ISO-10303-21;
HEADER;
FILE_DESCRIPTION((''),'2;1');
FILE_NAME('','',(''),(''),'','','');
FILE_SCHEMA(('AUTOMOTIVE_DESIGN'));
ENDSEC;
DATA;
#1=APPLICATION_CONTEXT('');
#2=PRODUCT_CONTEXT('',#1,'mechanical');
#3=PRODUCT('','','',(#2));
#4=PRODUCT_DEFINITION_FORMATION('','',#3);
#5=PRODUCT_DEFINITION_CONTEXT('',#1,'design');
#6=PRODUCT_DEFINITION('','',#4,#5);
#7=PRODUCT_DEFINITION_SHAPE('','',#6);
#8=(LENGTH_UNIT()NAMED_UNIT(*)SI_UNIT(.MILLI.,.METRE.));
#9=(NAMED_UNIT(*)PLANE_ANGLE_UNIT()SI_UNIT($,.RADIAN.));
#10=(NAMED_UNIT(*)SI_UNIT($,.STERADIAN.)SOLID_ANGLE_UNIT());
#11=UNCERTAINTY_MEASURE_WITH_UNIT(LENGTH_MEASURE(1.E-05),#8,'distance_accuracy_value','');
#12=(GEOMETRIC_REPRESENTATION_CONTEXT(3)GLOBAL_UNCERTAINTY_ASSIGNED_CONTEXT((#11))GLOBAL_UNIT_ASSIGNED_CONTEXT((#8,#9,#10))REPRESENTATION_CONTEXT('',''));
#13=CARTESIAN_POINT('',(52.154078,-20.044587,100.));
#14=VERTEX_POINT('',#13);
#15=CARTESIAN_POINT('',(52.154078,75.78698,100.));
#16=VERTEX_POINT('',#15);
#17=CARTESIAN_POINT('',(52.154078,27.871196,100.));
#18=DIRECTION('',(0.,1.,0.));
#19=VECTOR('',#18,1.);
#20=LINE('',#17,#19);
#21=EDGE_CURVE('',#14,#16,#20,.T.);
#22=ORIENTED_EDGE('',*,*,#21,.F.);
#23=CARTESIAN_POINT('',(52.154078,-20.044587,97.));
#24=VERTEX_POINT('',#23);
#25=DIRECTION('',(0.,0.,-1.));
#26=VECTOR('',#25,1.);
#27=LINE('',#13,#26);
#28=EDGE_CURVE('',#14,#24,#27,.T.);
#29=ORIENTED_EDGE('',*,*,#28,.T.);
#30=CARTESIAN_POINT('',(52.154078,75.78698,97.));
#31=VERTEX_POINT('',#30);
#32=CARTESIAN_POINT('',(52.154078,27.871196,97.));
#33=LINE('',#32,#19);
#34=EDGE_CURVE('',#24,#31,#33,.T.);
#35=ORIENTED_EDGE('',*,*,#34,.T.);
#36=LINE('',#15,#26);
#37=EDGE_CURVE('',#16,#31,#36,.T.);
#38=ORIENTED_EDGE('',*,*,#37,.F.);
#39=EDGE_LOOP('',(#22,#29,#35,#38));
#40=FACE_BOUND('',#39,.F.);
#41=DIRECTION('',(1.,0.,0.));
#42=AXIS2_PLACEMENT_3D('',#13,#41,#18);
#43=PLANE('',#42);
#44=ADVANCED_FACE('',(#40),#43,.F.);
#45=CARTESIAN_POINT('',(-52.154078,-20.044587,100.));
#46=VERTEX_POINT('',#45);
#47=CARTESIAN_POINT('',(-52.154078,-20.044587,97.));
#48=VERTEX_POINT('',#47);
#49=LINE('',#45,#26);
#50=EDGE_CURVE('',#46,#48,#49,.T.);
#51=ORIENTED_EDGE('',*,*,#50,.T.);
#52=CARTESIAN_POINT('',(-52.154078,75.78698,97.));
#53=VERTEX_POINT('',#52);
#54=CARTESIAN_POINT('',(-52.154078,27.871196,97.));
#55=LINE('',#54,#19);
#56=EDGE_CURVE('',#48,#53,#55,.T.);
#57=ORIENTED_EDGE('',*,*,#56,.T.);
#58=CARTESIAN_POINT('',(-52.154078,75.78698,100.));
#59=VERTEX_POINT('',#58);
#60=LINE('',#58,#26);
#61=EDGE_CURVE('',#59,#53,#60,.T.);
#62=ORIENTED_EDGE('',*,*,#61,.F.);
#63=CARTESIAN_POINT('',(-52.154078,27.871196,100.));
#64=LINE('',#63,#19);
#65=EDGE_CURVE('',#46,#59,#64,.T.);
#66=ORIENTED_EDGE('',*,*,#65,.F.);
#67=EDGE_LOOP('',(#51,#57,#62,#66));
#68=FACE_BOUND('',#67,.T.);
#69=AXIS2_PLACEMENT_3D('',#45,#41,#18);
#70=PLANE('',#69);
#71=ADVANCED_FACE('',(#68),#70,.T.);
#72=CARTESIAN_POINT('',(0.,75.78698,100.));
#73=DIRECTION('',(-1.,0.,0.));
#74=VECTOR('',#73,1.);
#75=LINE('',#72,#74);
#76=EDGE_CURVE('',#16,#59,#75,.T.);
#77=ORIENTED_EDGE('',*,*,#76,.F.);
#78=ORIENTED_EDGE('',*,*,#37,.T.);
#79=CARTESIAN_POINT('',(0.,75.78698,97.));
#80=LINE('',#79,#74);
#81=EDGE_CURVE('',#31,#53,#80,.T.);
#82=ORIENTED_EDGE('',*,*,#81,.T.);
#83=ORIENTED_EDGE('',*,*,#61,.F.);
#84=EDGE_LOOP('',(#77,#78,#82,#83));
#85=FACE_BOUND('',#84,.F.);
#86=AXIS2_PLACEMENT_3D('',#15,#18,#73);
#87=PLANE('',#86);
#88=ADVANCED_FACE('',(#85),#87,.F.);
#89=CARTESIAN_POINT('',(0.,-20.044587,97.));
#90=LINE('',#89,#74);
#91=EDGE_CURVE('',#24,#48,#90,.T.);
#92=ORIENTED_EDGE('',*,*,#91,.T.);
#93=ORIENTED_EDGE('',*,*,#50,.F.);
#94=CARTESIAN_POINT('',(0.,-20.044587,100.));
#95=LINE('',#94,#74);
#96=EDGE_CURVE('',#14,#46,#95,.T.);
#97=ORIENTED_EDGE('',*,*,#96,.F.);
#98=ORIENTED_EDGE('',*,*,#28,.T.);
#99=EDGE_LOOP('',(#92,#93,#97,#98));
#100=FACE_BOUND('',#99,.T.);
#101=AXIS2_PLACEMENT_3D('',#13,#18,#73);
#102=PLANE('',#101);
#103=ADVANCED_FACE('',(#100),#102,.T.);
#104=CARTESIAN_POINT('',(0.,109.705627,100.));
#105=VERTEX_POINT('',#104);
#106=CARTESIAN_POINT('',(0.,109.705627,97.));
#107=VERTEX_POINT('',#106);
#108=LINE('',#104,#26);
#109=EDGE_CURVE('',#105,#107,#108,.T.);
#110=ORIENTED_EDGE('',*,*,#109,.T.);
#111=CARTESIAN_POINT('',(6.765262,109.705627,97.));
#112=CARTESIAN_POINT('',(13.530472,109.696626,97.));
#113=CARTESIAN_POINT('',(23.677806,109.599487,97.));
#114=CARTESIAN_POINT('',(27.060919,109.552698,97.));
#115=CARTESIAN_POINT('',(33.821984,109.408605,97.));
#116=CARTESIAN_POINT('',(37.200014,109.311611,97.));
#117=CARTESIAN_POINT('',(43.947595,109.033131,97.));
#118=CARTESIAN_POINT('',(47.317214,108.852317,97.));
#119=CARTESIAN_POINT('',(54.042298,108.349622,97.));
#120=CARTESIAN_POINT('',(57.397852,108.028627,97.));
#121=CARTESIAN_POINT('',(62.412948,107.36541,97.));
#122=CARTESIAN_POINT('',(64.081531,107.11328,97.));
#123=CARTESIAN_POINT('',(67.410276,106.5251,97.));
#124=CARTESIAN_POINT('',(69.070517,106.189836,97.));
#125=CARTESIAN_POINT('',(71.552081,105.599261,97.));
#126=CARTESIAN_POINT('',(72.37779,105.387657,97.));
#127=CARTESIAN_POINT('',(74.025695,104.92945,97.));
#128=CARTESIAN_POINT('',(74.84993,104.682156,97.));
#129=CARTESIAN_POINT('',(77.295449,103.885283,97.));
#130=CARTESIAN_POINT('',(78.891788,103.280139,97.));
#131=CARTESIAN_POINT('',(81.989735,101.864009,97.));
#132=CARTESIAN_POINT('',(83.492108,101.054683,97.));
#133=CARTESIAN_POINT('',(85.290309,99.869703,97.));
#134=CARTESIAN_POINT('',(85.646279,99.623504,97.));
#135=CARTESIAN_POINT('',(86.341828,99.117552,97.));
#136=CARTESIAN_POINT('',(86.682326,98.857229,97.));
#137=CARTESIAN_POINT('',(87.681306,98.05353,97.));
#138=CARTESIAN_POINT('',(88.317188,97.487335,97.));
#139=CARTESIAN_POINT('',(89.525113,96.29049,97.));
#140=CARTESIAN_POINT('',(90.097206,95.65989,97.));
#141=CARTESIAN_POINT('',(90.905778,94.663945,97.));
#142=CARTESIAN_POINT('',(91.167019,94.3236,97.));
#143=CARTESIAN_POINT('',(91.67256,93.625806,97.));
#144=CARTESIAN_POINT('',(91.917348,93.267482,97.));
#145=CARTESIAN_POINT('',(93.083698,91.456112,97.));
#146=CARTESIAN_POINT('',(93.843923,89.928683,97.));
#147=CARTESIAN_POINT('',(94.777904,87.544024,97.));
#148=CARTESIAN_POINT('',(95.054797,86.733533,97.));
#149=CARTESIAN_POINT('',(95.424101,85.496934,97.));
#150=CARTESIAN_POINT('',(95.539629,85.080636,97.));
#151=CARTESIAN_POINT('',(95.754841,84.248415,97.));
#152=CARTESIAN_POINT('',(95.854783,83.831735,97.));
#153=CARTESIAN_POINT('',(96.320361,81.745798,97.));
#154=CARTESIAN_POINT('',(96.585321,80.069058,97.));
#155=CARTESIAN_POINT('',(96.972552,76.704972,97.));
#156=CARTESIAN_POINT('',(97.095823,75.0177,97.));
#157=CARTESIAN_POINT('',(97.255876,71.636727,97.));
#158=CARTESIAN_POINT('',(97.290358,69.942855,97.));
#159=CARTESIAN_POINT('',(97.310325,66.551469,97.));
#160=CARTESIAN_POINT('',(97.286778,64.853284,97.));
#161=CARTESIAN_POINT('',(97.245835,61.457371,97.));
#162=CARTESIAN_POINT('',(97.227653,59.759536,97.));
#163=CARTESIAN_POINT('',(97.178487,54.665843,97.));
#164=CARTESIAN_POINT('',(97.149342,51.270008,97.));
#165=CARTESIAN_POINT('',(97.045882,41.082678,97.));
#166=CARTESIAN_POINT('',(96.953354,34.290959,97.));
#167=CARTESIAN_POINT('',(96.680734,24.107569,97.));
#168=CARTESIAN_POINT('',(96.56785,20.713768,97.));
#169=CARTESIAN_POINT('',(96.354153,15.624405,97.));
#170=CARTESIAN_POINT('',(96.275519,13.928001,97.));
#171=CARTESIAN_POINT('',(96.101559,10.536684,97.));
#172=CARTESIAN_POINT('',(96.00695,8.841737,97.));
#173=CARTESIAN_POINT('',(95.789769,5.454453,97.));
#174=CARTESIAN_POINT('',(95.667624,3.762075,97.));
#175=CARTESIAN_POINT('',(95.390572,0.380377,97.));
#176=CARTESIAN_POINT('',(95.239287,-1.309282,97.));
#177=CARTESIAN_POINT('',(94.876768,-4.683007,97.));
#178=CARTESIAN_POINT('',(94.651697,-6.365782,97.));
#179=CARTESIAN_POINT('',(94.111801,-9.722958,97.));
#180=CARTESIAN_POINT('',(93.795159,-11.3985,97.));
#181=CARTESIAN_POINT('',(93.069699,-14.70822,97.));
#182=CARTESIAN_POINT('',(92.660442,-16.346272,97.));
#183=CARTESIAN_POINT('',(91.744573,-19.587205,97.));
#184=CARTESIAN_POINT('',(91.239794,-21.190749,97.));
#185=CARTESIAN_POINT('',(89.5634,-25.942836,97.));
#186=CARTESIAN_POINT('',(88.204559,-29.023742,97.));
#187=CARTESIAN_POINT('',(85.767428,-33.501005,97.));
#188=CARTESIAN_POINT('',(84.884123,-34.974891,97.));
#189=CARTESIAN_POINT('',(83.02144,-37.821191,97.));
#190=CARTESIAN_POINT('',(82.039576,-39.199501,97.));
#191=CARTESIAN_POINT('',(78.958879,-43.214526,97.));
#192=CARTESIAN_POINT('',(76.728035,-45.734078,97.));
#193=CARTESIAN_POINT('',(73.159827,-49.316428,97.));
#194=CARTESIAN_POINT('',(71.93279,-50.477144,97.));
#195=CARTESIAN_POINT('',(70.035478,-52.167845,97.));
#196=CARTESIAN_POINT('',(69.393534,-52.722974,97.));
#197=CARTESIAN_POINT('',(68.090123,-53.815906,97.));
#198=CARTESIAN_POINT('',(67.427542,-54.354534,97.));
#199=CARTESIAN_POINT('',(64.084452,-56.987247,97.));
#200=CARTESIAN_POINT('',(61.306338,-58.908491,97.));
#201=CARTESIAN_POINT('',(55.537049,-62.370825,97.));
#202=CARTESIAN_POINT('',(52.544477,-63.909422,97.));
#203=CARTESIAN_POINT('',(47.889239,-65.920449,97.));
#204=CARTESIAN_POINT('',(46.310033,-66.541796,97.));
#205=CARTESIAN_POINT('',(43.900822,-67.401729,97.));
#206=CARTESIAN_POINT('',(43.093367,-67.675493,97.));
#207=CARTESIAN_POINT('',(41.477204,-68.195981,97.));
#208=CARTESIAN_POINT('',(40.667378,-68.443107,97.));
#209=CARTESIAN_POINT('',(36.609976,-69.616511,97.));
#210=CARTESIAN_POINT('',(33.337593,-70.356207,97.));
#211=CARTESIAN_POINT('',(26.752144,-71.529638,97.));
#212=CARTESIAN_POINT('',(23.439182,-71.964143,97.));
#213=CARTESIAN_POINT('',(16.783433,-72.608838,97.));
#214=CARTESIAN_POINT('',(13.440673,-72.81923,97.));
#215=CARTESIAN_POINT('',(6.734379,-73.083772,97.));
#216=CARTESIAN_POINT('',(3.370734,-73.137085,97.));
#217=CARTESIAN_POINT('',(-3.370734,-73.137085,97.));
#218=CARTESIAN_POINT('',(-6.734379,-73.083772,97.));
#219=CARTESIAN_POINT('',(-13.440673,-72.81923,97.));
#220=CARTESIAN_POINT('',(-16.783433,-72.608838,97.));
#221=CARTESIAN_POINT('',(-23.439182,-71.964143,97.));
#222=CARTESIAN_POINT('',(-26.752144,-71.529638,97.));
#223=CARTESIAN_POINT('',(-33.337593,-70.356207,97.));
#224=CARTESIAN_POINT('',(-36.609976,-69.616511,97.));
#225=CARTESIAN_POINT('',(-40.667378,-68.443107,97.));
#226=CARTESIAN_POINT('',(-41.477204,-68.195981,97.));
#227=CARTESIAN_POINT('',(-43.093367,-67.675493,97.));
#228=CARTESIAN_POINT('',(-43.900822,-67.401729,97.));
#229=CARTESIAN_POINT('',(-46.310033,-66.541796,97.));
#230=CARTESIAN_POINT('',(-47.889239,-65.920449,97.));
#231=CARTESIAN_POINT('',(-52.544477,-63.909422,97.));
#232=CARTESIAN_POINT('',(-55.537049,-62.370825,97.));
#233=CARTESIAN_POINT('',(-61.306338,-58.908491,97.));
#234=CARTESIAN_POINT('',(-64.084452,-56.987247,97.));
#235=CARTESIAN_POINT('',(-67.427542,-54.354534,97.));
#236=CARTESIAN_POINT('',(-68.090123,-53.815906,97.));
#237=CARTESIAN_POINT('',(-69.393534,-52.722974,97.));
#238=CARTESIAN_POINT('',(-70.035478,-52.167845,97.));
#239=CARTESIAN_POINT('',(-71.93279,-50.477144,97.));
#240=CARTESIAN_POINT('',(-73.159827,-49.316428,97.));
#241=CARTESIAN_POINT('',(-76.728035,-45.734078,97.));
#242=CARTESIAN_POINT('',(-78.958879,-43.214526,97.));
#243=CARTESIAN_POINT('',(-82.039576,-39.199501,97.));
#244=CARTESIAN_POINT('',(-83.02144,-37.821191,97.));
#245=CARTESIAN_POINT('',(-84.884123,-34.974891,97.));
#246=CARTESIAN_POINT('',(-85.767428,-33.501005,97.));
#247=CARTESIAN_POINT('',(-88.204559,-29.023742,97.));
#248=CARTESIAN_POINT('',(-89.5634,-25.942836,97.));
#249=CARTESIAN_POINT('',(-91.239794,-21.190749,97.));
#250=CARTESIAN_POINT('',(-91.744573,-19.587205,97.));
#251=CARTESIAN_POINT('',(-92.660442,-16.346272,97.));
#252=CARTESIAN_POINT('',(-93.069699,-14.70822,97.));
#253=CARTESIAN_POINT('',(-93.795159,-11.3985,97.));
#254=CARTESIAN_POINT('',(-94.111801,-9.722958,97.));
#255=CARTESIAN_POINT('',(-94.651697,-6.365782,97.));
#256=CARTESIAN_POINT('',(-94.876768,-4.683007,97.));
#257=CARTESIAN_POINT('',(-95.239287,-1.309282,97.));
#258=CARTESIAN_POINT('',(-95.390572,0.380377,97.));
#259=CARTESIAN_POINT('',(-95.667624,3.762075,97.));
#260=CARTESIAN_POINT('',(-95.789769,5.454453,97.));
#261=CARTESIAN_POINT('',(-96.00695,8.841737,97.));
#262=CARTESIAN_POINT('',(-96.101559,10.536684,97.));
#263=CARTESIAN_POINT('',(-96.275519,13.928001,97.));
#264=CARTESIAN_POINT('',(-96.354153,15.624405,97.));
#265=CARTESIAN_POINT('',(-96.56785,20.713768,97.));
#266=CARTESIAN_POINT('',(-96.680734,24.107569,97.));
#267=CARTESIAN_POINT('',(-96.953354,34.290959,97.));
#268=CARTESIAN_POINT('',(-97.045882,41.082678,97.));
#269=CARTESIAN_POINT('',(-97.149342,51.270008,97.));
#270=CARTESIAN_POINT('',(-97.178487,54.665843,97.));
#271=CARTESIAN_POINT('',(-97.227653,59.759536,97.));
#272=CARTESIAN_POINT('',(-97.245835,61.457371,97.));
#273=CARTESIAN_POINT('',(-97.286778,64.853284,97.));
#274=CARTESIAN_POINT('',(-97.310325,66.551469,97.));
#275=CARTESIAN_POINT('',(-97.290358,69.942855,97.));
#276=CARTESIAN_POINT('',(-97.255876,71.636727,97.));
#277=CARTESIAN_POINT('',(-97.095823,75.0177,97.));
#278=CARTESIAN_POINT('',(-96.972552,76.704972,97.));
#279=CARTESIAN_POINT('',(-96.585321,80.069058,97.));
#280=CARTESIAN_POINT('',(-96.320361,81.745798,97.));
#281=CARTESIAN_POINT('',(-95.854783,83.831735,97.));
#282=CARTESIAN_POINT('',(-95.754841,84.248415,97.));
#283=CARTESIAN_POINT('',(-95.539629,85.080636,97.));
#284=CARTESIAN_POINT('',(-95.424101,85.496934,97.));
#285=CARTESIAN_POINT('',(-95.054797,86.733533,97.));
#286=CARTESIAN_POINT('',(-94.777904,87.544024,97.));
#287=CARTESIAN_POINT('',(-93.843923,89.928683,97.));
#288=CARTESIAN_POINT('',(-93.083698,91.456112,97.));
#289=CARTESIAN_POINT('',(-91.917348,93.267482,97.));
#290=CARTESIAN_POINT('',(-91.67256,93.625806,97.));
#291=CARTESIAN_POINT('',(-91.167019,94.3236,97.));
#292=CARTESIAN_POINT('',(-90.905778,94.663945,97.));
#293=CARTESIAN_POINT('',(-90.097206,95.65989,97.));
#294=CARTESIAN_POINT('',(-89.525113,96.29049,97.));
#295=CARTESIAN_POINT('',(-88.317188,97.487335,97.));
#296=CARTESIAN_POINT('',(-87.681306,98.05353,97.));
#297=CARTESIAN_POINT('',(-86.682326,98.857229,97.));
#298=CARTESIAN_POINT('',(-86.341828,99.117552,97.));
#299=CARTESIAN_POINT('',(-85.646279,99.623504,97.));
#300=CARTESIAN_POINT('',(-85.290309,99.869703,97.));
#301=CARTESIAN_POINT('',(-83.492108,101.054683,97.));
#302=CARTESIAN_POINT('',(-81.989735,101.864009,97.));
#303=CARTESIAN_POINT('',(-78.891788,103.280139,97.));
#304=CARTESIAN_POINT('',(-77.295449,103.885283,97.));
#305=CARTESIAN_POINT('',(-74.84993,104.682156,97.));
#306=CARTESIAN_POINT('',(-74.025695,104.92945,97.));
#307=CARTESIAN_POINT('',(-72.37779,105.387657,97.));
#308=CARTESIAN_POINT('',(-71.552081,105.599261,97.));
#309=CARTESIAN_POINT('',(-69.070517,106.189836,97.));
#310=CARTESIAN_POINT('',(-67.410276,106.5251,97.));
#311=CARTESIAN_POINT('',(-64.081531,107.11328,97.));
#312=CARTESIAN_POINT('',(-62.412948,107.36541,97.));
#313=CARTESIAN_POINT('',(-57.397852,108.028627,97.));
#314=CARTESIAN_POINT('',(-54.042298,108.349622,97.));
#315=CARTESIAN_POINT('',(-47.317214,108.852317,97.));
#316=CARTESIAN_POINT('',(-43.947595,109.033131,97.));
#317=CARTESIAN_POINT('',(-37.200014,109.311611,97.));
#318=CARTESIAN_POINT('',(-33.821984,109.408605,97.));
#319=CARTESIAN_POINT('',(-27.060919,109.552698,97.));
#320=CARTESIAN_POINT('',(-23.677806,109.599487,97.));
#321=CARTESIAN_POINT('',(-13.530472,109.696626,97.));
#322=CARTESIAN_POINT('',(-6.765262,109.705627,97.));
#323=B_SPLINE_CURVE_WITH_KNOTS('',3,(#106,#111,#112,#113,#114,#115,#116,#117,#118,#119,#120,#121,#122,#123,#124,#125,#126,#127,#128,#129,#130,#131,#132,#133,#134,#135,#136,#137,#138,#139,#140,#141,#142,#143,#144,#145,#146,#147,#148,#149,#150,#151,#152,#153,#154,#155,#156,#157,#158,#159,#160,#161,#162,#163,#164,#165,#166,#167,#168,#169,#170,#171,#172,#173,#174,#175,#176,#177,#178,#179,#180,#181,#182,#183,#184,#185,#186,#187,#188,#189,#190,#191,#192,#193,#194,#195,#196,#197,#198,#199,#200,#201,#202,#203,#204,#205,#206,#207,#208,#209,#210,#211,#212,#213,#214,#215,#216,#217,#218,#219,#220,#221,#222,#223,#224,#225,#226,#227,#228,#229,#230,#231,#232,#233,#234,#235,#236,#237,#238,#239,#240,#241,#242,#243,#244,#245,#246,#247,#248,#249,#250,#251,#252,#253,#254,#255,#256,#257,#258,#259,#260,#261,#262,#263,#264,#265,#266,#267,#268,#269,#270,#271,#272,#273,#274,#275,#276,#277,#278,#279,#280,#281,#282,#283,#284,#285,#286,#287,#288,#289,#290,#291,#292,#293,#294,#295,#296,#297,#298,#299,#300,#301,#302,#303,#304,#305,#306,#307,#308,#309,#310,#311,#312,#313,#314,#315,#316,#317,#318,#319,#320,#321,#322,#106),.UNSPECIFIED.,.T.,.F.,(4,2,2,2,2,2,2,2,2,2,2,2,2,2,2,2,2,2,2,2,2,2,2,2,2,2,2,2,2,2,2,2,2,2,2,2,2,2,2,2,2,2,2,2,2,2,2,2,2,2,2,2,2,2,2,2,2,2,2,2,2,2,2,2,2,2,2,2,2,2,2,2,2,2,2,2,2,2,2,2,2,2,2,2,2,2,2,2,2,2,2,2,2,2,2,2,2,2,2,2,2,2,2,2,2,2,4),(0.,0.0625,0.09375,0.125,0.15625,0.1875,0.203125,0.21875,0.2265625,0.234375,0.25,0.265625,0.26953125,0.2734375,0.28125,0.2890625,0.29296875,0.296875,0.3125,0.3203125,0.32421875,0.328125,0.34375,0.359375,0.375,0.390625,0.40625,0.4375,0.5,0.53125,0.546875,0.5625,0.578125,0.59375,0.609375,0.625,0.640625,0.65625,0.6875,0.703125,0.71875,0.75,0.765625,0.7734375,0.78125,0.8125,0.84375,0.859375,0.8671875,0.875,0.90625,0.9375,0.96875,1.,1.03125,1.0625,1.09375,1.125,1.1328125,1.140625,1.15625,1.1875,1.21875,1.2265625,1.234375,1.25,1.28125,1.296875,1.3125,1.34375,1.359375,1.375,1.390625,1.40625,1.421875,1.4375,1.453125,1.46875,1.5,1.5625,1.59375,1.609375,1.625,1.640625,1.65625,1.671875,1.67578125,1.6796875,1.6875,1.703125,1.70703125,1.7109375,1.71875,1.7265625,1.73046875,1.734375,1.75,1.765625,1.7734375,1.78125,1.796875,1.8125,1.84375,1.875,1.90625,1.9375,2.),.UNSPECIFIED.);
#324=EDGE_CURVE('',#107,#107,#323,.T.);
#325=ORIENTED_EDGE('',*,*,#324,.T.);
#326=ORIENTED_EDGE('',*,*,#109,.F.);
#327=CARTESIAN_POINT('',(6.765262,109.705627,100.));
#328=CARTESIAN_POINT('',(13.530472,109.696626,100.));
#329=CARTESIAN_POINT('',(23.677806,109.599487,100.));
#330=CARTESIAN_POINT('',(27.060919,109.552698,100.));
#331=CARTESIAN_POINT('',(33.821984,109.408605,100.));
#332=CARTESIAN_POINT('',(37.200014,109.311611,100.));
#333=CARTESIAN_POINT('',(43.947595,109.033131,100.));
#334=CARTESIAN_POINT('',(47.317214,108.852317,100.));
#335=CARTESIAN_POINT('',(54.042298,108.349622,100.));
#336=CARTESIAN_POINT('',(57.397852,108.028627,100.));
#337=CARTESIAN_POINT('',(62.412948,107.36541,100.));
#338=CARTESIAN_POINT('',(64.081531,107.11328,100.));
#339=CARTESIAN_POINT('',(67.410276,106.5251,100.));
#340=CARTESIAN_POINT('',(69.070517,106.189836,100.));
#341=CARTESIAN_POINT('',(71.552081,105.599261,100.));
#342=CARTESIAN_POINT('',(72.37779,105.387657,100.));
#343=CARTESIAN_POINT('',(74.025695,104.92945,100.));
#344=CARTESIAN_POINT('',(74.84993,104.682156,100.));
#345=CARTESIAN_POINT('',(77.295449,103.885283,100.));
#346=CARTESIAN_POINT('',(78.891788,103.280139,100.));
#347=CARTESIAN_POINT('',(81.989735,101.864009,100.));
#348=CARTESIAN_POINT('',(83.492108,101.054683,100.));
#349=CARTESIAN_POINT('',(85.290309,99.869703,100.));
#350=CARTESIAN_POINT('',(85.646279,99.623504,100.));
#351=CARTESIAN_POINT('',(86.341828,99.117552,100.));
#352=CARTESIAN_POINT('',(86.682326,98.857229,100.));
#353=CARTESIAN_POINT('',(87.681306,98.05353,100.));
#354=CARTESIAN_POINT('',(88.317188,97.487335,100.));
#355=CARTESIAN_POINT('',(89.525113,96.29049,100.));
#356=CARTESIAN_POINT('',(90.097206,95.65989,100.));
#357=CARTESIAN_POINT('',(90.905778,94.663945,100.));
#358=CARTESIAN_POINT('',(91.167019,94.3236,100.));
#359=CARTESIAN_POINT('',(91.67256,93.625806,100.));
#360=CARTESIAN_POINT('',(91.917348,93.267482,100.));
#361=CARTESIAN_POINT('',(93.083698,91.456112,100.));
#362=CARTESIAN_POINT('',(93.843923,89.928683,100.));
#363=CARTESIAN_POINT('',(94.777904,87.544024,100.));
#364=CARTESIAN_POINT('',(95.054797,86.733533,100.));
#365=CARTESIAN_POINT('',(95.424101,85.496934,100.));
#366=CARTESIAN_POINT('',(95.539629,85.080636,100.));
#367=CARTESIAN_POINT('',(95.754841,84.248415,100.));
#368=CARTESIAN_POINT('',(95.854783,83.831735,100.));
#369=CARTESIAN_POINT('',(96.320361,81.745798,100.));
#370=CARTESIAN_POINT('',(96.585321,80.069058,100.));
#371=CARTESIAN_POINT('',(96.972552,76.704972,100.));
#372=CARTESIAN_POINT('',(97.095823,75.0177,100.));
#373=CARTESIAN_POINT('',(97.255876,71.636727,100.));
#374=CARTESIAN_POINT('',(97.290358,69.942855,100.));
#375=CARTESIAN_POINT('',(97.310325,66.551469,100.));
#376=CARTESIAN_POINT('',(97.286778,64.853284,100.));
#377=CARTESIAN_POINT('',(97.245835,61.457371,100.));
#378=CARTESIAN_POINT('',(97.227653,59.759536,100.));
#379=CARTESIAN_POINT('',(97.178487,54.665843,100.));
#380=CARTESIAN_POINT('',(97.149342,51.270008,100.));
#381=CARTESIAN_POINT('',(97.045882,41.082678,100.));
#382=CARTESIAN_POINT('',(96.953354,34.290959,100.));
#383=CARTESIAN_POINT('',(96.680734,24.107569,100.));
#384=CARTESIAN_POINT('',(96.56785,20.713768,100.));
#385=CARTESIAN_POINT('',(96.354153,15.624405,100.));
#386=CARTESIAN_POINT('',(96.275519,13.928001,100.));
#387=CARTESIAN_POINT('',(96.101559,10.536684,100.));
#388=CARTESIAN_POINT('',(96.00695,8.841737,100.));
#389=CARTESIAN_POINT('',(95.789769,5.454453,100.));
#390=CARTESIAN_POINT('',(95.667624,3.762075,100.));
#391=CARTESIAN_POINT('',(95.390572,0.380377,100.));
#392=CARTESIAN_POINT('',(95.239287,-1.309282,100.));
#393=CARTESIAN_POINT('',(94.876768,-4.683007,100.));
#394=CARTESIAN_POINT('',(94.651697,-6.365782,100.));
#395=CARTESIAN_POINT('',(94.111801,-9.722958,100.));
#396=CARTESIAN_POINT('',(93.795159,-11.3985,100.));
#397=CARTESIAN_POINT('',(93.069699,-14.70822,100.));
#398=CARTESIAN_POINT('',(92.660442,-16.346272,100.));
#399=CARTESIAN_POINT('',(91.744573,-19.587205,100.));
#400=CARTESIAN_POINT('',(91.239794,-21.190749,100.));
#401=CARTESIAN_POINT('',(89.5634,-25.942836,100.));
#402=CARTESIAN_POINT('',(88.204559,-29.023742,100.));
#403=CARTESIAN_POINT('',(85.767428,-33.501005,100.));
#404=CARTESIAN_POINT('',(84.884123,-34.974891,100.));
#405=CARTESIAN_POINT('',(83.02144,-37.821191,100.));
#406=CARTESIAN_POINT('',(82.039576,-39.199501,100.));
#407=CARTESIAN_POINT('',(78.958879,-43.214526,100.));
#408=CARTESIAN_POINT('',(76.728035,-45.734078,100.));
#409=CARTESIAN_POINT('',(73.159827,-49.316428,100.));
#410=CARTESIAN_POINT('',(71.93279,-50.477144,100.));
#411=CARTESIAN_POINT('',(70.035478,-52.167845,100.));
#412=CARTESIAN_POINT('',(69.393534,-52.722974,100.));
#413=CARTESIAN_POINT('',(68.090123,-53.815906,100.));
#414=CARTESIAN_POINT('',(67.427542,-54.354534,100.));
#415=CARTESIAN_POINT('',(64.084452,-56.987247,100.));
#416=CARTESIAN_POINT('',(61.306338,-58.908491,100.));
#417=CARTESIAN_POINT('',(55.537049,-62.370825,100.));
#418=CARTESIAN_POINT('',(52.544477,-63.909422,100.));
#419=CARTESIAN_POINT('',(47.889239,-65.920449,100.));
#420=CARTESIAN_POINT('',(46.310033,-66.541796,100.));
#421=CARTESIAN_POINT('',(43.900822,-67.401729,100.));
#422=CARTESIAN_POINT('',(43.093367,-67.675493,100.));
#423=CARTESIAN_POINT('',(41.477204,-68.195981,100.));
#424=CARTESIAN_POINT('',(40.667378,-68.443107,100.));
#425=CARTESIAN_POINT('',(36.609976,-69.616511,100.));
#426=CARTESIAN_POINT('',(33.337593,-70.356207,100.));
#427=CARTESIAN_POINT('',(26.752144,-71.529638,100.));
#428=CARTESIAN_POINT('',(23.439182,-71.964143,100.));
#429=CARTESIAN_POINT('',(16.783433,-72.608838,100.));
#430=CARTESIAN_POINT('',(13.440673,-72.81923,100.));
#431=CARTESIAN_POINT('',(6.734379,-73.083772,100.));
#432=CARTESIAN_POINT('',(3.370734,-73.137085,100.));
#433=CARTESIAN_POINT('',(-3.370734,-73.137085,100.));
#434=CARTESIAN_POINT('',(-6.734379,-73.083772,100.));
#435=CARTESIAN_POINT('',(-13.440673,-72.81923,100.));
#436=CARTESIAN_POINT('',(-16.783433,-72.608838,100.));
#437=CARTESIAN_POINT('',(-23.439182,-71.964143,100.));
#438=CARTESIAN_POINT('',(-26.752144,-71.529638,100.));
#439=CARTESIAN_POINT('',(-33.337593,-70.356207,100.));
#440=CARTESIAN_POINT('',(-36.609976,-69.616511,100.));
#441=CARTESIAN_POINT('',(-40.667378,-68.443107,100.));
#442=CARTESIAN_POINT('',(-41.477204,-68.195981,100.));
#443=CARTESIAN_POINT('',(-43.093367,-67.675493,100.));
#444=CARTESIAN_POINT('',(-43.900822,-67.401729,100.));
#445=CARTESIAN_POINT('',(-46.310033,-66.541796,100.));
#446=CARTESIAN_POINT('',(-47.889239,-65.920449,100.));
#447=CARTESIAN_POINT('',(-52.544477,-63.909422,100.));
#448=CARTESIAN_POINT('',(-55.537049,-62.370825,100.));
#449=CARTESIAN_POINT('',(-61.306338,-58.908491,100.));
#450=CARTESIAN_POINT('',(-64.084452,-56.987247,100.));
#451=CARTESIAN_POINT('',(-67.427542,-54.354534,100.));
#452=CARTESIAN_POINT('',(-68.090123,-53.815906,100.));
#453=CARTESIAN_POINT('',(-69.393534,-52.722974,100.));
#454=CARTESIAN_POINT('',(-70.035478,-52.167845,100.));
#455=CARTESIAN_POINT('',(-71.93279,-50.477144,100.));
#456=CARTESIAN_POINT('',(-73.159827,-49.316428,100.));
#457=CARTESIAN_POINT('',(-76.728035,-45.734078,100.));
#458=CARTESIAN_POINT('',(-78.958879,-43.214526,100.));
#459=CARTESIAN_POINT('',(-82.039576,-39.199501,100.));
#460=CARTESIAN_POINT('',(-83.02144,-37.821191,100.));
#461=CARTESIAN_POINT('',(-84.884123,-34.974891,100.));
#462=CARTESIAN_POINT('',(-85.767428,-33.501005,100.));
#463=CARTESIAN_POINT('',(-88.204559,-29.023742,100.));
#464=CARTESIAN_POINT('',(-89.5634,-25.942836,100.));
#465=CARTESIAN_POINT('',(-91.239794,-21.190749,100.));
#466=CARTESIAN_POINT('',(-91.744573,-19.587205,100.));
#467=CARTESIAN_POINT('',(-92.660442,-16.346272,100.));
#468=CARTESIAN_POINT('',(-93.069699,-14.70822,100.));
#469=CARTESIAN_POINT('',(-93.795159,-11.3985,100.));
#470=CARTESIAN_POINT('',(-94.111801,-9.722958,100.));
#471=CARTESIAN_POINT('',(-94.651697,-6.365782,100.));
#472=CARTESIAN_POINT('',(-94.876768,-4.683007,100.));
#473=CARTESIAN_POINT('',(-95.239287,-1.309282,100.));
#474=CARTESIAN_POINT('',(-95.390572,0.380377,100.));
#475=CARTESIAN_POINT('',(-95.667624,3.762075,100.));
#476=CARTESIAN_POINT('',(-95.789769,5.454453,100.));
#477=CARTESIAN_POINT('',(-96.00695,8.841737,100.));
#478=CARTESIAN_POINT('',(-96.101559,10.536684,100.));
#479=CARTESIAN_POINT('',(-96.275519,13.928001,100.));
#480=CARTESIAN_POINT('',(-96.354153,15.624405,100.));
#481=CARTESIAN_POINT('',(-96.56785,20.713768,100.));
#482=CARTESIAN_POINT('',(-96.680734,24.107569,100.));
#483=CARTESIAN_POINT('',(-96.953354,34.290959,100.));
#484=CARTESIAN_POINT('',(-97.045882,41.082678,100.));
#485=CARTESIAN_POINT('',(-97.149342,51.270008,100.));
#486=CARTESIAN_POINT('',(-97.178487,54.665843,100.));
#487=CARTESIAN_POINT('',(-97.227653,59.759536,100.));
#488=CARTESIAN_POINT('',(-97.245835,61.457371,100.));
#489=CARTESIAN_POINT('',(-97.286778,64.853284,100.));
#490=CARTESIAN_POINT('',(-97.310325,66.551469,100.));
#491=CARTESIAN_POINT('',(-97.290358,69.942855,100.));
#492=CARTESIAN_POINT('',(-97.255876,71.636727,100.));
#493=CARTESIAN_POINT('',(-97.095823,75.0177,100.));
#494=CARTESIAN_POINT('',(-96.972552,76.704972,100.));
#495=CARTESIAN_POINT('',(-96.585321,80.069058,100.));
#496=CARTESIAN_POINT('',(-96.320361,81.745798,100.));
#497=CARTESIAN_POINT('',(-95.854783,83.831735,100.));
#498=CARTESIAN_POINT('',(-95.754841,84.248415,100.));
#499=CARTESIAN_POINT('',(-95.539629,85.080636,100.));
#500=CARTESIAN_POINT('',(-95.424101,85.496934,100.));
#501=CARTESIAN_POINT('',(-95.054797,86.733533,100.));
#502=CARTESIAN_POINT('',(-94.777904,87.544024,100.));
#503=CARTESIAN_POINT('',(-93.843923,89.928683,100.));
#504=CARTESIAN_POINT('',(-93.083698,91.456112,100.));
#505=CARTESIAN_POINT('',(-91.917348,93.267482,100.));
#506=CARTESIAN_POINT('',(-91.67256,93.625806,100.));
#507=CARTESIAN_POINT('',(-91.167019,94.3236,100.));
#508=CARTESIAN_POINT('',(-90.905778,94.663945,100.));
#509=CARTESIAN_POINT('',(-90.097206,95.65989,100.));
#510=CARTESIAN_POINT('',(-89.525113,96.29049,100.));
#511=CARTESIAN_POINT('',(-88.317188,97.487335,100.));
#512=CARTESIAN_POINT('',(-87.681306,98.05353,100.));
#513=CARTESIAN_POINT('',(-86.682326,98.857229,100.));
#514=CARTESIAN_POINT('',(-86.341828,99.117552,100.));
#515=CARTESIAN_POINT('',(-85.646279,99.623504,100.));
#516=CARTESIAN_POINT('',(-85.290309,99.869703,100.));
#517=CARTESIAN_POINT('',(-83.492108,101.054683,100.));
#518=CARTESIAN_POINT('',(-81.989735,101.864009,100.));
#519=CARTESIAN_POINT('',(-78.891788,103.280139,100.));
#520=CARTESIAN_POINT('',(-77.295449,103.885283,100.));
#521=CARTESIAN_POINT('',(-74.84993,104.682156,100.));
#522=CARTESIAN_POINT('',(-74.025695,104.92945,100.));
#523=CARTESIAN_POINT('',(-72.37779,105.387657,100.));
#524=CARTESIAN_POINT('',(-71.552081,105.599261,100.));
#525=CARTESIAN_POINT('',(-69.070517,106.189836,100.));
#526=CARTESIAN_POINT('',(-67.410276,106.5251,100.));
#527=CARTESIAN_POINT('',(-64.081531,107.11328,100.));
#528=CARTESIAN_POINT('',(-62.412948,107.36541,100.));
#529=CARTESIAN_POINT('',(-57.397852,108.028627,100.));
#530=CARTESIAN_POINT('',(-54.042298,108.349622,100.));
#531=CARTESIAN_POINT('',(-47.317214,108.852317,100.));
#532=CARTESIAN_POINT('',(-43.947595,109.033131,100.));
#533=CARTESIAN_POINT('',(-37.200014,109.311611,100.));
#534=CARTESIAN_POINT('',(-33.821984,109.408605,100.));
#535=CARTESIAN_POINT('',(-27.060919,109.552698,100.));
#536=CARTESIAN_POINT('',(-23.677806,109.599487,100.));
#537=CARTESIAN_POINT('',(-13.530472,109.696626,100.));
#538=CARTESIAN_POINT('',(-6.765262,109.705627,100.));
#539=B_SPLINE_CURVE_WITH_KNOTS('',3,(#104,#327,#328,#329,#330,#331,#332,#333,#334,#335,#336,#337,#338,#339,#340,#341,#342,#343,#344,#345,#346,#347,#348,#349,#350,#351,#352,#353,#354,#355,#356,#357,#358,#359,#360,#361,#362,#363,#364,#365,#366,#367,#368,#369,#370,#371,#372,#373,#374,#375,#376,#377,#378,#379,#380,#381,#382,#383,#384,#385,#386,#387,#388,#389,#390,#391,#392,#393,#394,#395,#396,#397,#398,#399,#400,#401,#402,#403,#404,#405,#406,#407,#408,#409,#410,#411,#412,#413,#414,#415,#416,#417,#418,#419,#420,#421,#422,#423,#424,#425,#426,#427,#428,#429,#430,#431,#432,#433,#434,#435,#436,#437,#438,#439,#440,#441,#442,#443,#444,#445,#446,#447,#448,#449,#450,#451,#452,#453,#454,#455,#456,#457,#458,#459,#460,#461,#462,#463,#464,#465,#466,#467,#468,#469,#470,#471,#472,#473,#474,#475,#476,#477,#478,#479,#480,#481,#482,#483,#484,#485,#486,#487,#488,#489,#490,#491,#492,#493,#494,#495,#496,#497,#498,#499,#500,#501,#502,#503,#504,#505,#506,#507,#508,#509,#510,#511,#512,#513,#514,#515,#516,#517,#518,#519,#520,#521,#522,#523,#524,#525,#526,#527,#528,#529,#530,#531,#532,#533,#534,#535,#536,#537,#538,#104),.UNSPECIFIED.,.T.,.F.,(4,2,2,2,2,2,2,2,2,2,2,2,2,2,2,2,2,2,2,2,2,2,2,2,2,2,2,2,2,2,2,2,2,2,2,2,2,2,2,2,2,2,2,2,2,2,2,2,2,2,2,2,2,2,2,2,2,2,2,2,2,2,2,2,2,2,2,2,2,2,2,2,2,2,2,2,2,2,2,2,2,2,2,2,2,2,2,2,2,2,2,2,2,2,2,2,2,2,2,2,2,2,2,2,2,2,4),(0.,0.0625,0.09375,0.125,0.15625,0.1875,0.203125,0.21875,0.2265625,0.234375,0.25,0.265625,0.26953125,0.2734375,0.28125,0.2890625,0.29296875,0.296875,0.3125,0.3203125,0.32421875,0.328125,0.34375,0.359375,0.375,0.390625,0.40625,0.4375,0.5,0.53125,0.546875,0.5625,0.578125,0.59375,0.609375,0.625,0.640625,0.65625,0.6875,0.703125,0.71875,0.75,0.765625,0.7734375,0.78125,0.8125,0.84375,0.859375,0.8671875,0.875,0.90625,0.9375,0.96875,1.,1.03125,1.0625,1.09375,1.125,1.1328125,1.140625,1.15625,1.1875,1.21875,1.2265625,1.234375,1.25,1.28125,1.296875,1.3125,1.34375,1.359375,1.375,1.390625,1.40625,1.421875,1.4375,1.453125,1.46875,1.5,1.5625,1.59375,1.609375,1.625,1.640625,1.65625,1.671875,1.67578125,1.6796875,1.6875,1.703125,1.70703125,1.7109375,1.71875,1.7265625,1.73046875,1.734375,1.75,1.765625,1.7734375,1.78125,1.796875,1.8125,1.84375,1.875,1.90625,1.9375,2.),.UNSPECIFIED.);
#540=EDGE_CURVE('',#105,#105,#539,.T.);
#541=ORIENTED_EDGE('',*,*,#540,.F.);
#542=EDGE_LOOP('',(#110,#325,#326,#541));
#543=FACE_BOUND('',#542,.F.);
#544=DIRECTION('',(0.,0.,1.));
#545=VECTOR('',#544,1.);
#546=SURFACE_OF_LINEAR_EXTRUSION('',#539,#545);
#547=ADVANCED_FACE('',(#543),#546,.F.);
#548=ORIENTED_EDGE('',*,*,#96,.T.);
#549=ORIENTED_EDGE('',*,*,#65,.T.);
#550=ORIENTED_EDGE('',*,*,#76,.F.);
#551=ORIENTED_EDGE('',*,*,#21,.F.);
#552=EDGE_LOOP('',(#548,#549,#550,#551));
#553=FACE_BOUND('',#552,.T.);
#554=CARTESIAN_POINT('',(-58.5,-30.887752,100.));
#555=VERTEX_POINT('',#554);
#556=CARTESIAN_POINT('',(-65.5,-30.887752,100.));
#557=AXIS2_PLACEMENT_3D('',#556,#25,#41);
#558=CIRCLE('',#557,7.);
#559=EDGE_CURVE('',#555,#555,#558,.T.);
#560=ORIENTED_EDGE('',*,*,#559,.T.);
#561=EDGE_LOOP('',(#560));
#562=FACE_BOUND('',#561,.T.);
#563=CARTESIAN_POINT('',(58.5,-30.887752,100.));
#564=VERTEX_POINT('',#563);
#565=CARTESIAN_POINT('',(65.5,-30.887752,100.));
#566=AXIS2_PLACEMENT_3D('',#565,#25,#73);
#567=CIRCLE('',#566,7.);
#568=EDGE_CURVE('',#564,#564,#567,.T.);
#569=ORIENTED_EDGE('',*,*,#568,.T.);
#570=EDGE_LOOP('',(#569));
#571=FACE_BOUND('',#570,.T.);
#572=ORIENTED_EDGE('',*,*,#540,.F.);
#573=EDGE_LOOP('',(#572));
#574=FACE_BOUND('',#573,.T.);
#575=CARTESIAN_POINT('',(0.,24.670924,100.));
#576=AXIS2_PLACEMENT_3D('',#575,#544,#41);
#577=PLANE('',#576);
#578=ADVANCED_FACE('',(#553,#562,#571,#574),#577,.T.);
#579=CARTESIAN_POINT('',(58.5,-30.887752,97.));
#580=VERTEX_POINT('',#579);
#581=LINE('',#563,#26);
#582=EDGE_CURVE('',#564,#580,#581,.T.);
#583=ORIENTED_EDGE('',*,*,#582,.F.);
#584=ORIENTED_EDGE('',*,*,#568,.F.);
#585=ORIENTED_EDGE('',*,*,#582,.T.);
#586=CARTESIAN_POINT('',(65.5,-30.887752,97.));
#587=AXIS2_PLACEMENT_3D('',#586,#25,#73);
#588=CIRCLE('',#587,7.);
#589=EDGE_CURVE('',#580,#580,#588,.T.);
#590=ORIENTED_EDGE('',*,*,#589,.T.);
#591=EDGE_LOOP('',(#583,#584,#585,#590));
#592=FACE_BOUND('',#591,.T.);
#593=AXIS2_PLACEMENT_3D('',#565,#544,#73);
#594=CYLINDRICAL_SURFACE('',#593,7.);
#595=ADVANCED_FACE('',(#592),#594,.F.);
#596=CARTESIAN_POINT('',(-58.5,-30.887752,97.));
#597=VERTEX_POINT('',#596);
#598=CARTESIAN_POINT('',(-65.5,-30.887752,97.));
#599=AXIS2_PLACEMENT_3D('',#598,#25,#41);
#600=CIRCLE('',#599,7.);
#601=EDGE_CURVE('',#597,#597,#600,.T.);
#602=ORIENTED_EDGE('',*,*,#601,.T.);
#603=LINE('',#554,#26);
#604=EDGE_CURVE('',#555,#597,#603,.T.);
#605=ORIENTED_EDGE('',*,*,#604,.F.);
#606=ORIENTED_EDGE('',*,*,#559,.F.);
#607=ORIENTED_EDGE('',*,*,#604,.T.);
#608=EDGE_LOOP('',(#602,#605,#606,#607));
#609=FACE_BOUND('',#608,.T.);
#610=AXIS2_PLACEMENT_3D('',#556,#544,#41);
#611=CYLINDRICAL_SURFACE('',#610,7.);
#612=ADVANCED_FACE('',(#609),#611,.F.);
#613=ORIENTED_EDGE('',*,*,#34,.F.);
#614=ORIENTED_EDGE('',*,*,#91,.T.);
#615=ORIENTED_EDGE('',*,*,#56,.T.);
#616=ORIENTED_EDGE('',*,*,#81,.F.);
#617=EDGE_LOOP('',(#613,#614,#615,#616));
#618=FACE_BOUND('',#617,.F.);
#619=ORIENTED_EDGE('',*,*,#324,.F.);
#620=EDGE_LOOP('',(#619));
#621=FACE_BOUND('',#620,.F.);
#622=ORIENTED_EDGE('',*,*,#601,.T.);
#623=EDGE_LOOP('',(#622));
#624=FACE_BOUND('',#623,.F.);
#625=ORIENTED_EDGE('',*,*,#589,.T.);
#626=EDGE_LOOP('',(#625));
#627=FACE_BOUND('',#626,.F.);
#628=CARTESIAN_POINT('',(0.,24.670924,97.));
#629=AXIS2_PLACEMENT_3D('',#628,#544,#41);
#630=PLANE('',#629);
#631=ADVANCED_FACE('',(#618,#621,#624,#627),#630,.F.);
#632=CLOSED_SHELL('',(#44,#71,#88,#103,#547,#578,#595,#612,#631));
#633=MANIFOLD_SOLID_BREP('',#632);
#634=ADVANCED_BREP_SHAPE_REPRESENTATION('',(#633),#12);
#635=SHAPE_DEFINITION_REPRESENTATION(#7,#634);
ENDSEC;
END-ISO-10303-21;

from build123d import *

# Parameters (mm, degrees)
SKETCH1_R           = 7
SKETCH1_R_2         = 7.000000001
SKETCH1_W           = 104.308156416
SKETCH1_H           = 95.831566325
BOSS_EXTRUDE1_DEPTH = 3


with BuildPart() as part:
    # Sketch1 → Boss-Extrude1 (new body)
    with BuildSketch(Plane(origin=(0, 0, 100), x_dir=(-1, 0, 0), z_dir=(0, 0, -1))):
        with BuildLine():
            add(Edge.make_bspline(
                [(-1e-09, -73.137085013), (-3.370733736, -73.137085013), (-6.734378943, -73.083771669), (-13.440672959, -72.819229501), (-16.783433063, -72.608837747), (-23.439182049, -71.964142651), (-26.752144152, -71.529637912), (-33.33759261, -70.356207321), (-36.60997649, -69.616510751), (-40.667378232, -68.443107129), (-41.477203817, -68.195980803), (-43.093366771, -67.675493026), (-43.900822122, -67.401729181), (-46.310032737, -66.541796001), (-47.889238607, -65.92044891), (-52.544477218, -63.909421833), (-55.537048564, -62.370824761), (-61.306337859, -58.908491373), (-64.084452162, -56.98724652), (-67.427542086, -54.354533899), (-68.090122652, -53.815906347), (-69.393533804, -52.722974051), (-70.035477989, -52.167844506), (-71.932790396, -50.47714376), (-73.159826692, -49.316427503), (-76.728035335, -45.734077875), (-78.958878587, -43.214525591), (-82.039575544, -39.199501195), (-83.021440244, -37.821191048), (-84.88412339, -34.974890516), (-85.767427654, -33.501005365), (-88.204559187, -29.023741799), (-89.563400092, -25.942835856), (-91.239794175, -21.190749213), (-91.74457302, -19.587205428), (-92.660442382, -16.346272129), (-93.069699195, -14.708220172), (-93.795158786, -11.398499673), (-94.111800727, -9.722957871), (-94.651697476, -6.365781752), (-94.87676845, -4.6830068), (-95.239286804, -1.309281941), (-95.39057167, 0.380376979), (-95.667624115, 3.762075486), (-95.789769063, 5.454453052), (-96.006949572, 8.841737387), (-96.101559279, 10.536683887), (-96.275518719, 13.928000585), (-96.3541526, 15.624404776), (-96.567849925, 20.713768319), (-96.680733557, 24.107568552), (-96.953354403, 34.290958559), (-97.04588188, 41.082678484), (-97.149341973, 51.270007833), (-97.178486911, 54.665842901), (-97.227652976, 59.759535712), (-97.245834664, 61.457370788), (-97.286778342, 64.853283992), (-97.310325044, 66.551469151), (-97.290358192, 69.942854821), (-97.255875699, 71.636726618), (-97.09582269, 75.017699558), (-96.972551619, 76.704971621), (-96.585320654, 80.06905822), (-96.320360567, 81.745798411), (-95.854782835, 83.831735242), (-95.754841059, 84.248415208), (-95.539629218, 85.080635775), (-95.424100672, 85.496934333), (-95.054796974, 86.733533), (-94.777904174, 87.544024069), (-93.84392333, 89.928683353), (-93.083697513, 91.456112273), (-91.917347528, 93.267482281), (-91.672560415, 93.6258059), (-91.167018785, 94.323599626), (-90.905778308, 94.663945051), (-90.097205711, 95.659890217), (-89.525112782, 96.290490077), (-88.317187597, 97.487335056), (-87.6813056, 98.053529952), (-86.682325789, 98.857229484), (-86.341828077, 99.117552429), (-85.646278974, 99.623504122), (-85.290309402, 99.869702545), (-83.492108358, 101.054683185), (-81.989735399, 101.864008562), (-78.891787842, 103.280138886), (-77.295448939, 103.885283055), (-74.849929741, 104.68215643), (-74.025694859, 104.929450071), (-72.377789623, 105.387657064), (-71.552081134, 105.599261026), (-69.070517041, 106.189836208), (-67.410275941, 106.525100239), (-64.081531041, 107.113279731), (-62.412948454, 107.365409975), (-57.397851787, 108.028626666), (-54.042298135, 108.349622004), (-47.317214164, 108.852316963), (-43.947594988, 109.033131006), (-37.200013677, 109.311610648), (-33.821984223, 109.408605309), (-27.060918817, 109.552698361), (-23.677806003, 109.599487384), (-13.530472118, 109.696626212), (-6.765261961, 109.705627481), (0, 109.705627484)],
                knots=[0, 0, 0, 0, 0.03125, 0.03125, 0.0625, 0.0625, 0.09375, 0.09375, 0.125, 0.125, 0.1328125, 0.1328125, 0.140625, 0.140625, 0.15625, 0.15625, 0.1875, 0.1875, 0.21875, 0.21875, 0.2265625, 0.2265625, 0.234375, 0.234375, 0.25, 0.25, 0.28125, 0.28125, 0.296875, 0.296875, 0.3125, 0.3125, 0.34375, 0.34375, 0.359375, 0.359375, 0.375, 0.375, 0.390625, 0.390625, 0.40625, 0.40625, 0.421875, 0.421875, 0.4375, 0.4375, 0.453125, 0.453125, 0.46875, 0.46875, 0.5, 0.5, 0.5625, 0.5625, 0.59375, 0.59375, 0.609375, 0.609375, 0.625, 0.625, 0.640625, 0.640625, 0.65625, 0.65625, 0.671875, 0.671875, 0.67578125, 0.67578125, 0.6796875, 0.6796875, 0.6875, 0.6875, 0.703125, 0.703125, 0.70703125, 0.70703125, 0.7109375, 0.7109375, 0.71875, 0.71875, 0.7265625, 0.7265625, 0.73046875, 0.73046875, 0.734375, 0.734375, 0.75, 0.75, 0.765625, 0.765625, 0.7734375, 0.7734375, 0.78125, 0.78125, 0.796875, 0.796875, 0.8125, 0.8125, 0.84375, 0.84375, 0.875, 0.875, 0.90625, 0.90625, 0.9375, 0.9375, 1, 1, 1, 1], degree=3))
            add(Edge.make_bspline(
                [(-1e-09, -73.137085013), (3.370733735, -73.137085013), (6.734378942, -73.083771669), (13.440672958, -72.819229501), (16.783433062, -72.608837747), (23.439182048, -71.964142651), (26.752144151, -71.529637912), (33.337592609, -70.356207322), (36.609976489, -69.616510752), (40.667378232, -68.44310713), (41.477203816, -68.195980803), (43.093366771, -67.675493027), (43.900822121, -67.401729181), (46.310032736, -66.541796001), (47.889238606, -65.920448911), (52.544477218, -63.909421834), (55.537048563, -62.370824761), (61.306337859, -58.908491374), (64.084452162, -56.98724652), (67.427542085, -54.3545339), (68.090122651, -53.815906348), (69.393533803, -52.722974052), (70.035477989, -52.167844506), (71.932790395, -50.47714376), (73.159826692, -49.316427504), (76.728035334, -45.734077876), (78.958878587, -43.214525592), (82.039575543, -39.199501196), (83.021440244, -37.821191049), (84.884123389, -34.974890517), (85.767427654, -33.501005366), (88.204559186, -29.0237418), (89.563400092, -25.942835857), (91.239794175, -21.190749214), (91.74457302, -19.58720543), (92.660442382, -16.34627213), (93.069699195, -14.708220173), (93.795158786, -11.398499674), (94.111800727, -9.722957872), (94.651697476, -6.365781754), (94.87676845, -4.683006801), (95.239286804, -1.309281942), (95.39057167, 0.380376978), (95.667624115, 3.762075485), (95.789769063, 5.454453051), (96.006949572, 8.841737385), (96.101559279, 10.536683886), (96.275518719, 13.928000584), (96.3541526, 15.624404775), (96.567849925, 20.713768318), (96.680733557, 24.107568551), (96.953354403, 34.290958558), (97.04588188, 41.082678483), (97.149341974, 51.270007832), (97.178486911, 54.6658429), (97.227652977, 59.759535711), (97.245834665, 61.457370787), (97.286778343, 64.853283991), (97.310325044, 66.55146915), (97.290358192, 69.94285482), (97.2558757, 71.636726617), (97.095822691, 75.017699557), (96.97255162, 76.70497162), (96.585320655, 80.069058219), (96.320360568, 81.74579841), (95.854782836, 83.83173524), (95.75484106, 84.248415207), (95.539629219, 85.080635774), (95.424100673, 85.496934331), (95.054796975, 86.733532999), (94.777904175, 87.544024068), (93.843923331, 89.928683352), (93.083697514, 91.456112272), (91.91734753, 93.26748228), (91.672560416, 93.625805898), (91.167018786, 94.323599625), (90.905778309, 94.66394505), (90.097205713, 95.659890216), (89.525112783, 96.290490076), (88.317187599, 97.487335055), (87.681305601, 98.053529951), (86.682325791, 98.857229483), (86.341828078, 99.117552428), (85.646278975, 99.623504121), (85.290309403, 99.869702544), (83.492108359, 101.054683184), (81.9897354, 101.864008561), (78.891787843, 103.280138886), (77.29544894, 103.885283054), (74.849929743, 104.682156429), (74.025694861, 104.92945007), (72.377789624, 105.387657063), (71.552081135, 105.599261025), (69.070517043, 106.189836207), (67.410275942, 106.525100238), (64.081531042, 107.11327973), (62.412948455, 107.365409974), (57.397851788, 108.028626665), (54.042298136, 108.349622003), (47.317214166, 108.852316963), (43.947594989, 109.033131006), (37.200013679, 109.311610647), (33.821984224, 109.408605308), (27.060918818, 109.55269836), (23.677806004, 109.599487383), (13.530472119, 109.696626212), (6.765261962, 109.705627481), (0, 109.705627484)],
                knots=[0, 0, 0, 0, 0.03125, 0.03125, 0.0625, 0.0625, 0.09375, 0.09375, 0.125, 0.125, 0.1328125, 0.1328125, 0.140625, 0.140625, 0.15625, 0.15625, 0.1875, 0.1875, 0.21875, 0.21875, 0.2265625, 0.2265625, 0.234375, 0.234375, 0.25, 0.25, 0.28125, 0.28125, 0.296875, 0.296875, 0.3125, 0.3125, 0.34375, 0.34375, 0.359375, 0.359375, 0.375, 0.375, 0.390625, 0.390625, 0.40625, 0.40625, 0.421875, 0.421875, 0.4375, 0.4375, 0.453125, 0.453125, 0.46875, 0.46875, 0.5, 0.5, 0.5625, 0.5625, 0.59375, 0.59375, 0.609375, 0.609375, 0.625, 0.625, 0.640625, 0.640625, 0.65625, 0.65625, 0.671875, 0.671875, 0.67578125, 0.67578125, 0.6796875, 0.6796875, 0.6875, 0.6875, 0.703125, 0.703125, 0.70703125, 0.70703125, 0.7109375, 0.7109375, 0.71875, 0.71875, 0.7265625, 0.7265625, 0.73046875, 0.73046875, 0.734375, 0.734375, 0.75, 0.75, 0.765625, 0.765625, 0.7734375, 0.7734375, 0.78125, 0.78125, 0.796875, 0.796875, 0.8125, 0.8125, 0.84375, 0.84375, 0.875, 0.875, 0.90625, 0.90625, 0.9375, 0.9375, 1, 1, 1, 1], degree=3))
        make_face()
        with Locations((-65.5, -30.887752409)):
            Circle(SKETCH1_R, mode=Mode.SUBTRACT)
        with Locations(Location((65.5, -30.887752409, 0), (0, 0, 180))):
            Circle(SKETCH1_R_2, mode=Mode.SUBTRACT)
        with Locations((0, 27.871196428)):
            Rectangle(SKETCH1_W, SKETCH1_H, mode=Mode.SUBTRACT)
    extrude(amount=BOSS_EXTRUDE1_DEPTH)


solid = part.part
